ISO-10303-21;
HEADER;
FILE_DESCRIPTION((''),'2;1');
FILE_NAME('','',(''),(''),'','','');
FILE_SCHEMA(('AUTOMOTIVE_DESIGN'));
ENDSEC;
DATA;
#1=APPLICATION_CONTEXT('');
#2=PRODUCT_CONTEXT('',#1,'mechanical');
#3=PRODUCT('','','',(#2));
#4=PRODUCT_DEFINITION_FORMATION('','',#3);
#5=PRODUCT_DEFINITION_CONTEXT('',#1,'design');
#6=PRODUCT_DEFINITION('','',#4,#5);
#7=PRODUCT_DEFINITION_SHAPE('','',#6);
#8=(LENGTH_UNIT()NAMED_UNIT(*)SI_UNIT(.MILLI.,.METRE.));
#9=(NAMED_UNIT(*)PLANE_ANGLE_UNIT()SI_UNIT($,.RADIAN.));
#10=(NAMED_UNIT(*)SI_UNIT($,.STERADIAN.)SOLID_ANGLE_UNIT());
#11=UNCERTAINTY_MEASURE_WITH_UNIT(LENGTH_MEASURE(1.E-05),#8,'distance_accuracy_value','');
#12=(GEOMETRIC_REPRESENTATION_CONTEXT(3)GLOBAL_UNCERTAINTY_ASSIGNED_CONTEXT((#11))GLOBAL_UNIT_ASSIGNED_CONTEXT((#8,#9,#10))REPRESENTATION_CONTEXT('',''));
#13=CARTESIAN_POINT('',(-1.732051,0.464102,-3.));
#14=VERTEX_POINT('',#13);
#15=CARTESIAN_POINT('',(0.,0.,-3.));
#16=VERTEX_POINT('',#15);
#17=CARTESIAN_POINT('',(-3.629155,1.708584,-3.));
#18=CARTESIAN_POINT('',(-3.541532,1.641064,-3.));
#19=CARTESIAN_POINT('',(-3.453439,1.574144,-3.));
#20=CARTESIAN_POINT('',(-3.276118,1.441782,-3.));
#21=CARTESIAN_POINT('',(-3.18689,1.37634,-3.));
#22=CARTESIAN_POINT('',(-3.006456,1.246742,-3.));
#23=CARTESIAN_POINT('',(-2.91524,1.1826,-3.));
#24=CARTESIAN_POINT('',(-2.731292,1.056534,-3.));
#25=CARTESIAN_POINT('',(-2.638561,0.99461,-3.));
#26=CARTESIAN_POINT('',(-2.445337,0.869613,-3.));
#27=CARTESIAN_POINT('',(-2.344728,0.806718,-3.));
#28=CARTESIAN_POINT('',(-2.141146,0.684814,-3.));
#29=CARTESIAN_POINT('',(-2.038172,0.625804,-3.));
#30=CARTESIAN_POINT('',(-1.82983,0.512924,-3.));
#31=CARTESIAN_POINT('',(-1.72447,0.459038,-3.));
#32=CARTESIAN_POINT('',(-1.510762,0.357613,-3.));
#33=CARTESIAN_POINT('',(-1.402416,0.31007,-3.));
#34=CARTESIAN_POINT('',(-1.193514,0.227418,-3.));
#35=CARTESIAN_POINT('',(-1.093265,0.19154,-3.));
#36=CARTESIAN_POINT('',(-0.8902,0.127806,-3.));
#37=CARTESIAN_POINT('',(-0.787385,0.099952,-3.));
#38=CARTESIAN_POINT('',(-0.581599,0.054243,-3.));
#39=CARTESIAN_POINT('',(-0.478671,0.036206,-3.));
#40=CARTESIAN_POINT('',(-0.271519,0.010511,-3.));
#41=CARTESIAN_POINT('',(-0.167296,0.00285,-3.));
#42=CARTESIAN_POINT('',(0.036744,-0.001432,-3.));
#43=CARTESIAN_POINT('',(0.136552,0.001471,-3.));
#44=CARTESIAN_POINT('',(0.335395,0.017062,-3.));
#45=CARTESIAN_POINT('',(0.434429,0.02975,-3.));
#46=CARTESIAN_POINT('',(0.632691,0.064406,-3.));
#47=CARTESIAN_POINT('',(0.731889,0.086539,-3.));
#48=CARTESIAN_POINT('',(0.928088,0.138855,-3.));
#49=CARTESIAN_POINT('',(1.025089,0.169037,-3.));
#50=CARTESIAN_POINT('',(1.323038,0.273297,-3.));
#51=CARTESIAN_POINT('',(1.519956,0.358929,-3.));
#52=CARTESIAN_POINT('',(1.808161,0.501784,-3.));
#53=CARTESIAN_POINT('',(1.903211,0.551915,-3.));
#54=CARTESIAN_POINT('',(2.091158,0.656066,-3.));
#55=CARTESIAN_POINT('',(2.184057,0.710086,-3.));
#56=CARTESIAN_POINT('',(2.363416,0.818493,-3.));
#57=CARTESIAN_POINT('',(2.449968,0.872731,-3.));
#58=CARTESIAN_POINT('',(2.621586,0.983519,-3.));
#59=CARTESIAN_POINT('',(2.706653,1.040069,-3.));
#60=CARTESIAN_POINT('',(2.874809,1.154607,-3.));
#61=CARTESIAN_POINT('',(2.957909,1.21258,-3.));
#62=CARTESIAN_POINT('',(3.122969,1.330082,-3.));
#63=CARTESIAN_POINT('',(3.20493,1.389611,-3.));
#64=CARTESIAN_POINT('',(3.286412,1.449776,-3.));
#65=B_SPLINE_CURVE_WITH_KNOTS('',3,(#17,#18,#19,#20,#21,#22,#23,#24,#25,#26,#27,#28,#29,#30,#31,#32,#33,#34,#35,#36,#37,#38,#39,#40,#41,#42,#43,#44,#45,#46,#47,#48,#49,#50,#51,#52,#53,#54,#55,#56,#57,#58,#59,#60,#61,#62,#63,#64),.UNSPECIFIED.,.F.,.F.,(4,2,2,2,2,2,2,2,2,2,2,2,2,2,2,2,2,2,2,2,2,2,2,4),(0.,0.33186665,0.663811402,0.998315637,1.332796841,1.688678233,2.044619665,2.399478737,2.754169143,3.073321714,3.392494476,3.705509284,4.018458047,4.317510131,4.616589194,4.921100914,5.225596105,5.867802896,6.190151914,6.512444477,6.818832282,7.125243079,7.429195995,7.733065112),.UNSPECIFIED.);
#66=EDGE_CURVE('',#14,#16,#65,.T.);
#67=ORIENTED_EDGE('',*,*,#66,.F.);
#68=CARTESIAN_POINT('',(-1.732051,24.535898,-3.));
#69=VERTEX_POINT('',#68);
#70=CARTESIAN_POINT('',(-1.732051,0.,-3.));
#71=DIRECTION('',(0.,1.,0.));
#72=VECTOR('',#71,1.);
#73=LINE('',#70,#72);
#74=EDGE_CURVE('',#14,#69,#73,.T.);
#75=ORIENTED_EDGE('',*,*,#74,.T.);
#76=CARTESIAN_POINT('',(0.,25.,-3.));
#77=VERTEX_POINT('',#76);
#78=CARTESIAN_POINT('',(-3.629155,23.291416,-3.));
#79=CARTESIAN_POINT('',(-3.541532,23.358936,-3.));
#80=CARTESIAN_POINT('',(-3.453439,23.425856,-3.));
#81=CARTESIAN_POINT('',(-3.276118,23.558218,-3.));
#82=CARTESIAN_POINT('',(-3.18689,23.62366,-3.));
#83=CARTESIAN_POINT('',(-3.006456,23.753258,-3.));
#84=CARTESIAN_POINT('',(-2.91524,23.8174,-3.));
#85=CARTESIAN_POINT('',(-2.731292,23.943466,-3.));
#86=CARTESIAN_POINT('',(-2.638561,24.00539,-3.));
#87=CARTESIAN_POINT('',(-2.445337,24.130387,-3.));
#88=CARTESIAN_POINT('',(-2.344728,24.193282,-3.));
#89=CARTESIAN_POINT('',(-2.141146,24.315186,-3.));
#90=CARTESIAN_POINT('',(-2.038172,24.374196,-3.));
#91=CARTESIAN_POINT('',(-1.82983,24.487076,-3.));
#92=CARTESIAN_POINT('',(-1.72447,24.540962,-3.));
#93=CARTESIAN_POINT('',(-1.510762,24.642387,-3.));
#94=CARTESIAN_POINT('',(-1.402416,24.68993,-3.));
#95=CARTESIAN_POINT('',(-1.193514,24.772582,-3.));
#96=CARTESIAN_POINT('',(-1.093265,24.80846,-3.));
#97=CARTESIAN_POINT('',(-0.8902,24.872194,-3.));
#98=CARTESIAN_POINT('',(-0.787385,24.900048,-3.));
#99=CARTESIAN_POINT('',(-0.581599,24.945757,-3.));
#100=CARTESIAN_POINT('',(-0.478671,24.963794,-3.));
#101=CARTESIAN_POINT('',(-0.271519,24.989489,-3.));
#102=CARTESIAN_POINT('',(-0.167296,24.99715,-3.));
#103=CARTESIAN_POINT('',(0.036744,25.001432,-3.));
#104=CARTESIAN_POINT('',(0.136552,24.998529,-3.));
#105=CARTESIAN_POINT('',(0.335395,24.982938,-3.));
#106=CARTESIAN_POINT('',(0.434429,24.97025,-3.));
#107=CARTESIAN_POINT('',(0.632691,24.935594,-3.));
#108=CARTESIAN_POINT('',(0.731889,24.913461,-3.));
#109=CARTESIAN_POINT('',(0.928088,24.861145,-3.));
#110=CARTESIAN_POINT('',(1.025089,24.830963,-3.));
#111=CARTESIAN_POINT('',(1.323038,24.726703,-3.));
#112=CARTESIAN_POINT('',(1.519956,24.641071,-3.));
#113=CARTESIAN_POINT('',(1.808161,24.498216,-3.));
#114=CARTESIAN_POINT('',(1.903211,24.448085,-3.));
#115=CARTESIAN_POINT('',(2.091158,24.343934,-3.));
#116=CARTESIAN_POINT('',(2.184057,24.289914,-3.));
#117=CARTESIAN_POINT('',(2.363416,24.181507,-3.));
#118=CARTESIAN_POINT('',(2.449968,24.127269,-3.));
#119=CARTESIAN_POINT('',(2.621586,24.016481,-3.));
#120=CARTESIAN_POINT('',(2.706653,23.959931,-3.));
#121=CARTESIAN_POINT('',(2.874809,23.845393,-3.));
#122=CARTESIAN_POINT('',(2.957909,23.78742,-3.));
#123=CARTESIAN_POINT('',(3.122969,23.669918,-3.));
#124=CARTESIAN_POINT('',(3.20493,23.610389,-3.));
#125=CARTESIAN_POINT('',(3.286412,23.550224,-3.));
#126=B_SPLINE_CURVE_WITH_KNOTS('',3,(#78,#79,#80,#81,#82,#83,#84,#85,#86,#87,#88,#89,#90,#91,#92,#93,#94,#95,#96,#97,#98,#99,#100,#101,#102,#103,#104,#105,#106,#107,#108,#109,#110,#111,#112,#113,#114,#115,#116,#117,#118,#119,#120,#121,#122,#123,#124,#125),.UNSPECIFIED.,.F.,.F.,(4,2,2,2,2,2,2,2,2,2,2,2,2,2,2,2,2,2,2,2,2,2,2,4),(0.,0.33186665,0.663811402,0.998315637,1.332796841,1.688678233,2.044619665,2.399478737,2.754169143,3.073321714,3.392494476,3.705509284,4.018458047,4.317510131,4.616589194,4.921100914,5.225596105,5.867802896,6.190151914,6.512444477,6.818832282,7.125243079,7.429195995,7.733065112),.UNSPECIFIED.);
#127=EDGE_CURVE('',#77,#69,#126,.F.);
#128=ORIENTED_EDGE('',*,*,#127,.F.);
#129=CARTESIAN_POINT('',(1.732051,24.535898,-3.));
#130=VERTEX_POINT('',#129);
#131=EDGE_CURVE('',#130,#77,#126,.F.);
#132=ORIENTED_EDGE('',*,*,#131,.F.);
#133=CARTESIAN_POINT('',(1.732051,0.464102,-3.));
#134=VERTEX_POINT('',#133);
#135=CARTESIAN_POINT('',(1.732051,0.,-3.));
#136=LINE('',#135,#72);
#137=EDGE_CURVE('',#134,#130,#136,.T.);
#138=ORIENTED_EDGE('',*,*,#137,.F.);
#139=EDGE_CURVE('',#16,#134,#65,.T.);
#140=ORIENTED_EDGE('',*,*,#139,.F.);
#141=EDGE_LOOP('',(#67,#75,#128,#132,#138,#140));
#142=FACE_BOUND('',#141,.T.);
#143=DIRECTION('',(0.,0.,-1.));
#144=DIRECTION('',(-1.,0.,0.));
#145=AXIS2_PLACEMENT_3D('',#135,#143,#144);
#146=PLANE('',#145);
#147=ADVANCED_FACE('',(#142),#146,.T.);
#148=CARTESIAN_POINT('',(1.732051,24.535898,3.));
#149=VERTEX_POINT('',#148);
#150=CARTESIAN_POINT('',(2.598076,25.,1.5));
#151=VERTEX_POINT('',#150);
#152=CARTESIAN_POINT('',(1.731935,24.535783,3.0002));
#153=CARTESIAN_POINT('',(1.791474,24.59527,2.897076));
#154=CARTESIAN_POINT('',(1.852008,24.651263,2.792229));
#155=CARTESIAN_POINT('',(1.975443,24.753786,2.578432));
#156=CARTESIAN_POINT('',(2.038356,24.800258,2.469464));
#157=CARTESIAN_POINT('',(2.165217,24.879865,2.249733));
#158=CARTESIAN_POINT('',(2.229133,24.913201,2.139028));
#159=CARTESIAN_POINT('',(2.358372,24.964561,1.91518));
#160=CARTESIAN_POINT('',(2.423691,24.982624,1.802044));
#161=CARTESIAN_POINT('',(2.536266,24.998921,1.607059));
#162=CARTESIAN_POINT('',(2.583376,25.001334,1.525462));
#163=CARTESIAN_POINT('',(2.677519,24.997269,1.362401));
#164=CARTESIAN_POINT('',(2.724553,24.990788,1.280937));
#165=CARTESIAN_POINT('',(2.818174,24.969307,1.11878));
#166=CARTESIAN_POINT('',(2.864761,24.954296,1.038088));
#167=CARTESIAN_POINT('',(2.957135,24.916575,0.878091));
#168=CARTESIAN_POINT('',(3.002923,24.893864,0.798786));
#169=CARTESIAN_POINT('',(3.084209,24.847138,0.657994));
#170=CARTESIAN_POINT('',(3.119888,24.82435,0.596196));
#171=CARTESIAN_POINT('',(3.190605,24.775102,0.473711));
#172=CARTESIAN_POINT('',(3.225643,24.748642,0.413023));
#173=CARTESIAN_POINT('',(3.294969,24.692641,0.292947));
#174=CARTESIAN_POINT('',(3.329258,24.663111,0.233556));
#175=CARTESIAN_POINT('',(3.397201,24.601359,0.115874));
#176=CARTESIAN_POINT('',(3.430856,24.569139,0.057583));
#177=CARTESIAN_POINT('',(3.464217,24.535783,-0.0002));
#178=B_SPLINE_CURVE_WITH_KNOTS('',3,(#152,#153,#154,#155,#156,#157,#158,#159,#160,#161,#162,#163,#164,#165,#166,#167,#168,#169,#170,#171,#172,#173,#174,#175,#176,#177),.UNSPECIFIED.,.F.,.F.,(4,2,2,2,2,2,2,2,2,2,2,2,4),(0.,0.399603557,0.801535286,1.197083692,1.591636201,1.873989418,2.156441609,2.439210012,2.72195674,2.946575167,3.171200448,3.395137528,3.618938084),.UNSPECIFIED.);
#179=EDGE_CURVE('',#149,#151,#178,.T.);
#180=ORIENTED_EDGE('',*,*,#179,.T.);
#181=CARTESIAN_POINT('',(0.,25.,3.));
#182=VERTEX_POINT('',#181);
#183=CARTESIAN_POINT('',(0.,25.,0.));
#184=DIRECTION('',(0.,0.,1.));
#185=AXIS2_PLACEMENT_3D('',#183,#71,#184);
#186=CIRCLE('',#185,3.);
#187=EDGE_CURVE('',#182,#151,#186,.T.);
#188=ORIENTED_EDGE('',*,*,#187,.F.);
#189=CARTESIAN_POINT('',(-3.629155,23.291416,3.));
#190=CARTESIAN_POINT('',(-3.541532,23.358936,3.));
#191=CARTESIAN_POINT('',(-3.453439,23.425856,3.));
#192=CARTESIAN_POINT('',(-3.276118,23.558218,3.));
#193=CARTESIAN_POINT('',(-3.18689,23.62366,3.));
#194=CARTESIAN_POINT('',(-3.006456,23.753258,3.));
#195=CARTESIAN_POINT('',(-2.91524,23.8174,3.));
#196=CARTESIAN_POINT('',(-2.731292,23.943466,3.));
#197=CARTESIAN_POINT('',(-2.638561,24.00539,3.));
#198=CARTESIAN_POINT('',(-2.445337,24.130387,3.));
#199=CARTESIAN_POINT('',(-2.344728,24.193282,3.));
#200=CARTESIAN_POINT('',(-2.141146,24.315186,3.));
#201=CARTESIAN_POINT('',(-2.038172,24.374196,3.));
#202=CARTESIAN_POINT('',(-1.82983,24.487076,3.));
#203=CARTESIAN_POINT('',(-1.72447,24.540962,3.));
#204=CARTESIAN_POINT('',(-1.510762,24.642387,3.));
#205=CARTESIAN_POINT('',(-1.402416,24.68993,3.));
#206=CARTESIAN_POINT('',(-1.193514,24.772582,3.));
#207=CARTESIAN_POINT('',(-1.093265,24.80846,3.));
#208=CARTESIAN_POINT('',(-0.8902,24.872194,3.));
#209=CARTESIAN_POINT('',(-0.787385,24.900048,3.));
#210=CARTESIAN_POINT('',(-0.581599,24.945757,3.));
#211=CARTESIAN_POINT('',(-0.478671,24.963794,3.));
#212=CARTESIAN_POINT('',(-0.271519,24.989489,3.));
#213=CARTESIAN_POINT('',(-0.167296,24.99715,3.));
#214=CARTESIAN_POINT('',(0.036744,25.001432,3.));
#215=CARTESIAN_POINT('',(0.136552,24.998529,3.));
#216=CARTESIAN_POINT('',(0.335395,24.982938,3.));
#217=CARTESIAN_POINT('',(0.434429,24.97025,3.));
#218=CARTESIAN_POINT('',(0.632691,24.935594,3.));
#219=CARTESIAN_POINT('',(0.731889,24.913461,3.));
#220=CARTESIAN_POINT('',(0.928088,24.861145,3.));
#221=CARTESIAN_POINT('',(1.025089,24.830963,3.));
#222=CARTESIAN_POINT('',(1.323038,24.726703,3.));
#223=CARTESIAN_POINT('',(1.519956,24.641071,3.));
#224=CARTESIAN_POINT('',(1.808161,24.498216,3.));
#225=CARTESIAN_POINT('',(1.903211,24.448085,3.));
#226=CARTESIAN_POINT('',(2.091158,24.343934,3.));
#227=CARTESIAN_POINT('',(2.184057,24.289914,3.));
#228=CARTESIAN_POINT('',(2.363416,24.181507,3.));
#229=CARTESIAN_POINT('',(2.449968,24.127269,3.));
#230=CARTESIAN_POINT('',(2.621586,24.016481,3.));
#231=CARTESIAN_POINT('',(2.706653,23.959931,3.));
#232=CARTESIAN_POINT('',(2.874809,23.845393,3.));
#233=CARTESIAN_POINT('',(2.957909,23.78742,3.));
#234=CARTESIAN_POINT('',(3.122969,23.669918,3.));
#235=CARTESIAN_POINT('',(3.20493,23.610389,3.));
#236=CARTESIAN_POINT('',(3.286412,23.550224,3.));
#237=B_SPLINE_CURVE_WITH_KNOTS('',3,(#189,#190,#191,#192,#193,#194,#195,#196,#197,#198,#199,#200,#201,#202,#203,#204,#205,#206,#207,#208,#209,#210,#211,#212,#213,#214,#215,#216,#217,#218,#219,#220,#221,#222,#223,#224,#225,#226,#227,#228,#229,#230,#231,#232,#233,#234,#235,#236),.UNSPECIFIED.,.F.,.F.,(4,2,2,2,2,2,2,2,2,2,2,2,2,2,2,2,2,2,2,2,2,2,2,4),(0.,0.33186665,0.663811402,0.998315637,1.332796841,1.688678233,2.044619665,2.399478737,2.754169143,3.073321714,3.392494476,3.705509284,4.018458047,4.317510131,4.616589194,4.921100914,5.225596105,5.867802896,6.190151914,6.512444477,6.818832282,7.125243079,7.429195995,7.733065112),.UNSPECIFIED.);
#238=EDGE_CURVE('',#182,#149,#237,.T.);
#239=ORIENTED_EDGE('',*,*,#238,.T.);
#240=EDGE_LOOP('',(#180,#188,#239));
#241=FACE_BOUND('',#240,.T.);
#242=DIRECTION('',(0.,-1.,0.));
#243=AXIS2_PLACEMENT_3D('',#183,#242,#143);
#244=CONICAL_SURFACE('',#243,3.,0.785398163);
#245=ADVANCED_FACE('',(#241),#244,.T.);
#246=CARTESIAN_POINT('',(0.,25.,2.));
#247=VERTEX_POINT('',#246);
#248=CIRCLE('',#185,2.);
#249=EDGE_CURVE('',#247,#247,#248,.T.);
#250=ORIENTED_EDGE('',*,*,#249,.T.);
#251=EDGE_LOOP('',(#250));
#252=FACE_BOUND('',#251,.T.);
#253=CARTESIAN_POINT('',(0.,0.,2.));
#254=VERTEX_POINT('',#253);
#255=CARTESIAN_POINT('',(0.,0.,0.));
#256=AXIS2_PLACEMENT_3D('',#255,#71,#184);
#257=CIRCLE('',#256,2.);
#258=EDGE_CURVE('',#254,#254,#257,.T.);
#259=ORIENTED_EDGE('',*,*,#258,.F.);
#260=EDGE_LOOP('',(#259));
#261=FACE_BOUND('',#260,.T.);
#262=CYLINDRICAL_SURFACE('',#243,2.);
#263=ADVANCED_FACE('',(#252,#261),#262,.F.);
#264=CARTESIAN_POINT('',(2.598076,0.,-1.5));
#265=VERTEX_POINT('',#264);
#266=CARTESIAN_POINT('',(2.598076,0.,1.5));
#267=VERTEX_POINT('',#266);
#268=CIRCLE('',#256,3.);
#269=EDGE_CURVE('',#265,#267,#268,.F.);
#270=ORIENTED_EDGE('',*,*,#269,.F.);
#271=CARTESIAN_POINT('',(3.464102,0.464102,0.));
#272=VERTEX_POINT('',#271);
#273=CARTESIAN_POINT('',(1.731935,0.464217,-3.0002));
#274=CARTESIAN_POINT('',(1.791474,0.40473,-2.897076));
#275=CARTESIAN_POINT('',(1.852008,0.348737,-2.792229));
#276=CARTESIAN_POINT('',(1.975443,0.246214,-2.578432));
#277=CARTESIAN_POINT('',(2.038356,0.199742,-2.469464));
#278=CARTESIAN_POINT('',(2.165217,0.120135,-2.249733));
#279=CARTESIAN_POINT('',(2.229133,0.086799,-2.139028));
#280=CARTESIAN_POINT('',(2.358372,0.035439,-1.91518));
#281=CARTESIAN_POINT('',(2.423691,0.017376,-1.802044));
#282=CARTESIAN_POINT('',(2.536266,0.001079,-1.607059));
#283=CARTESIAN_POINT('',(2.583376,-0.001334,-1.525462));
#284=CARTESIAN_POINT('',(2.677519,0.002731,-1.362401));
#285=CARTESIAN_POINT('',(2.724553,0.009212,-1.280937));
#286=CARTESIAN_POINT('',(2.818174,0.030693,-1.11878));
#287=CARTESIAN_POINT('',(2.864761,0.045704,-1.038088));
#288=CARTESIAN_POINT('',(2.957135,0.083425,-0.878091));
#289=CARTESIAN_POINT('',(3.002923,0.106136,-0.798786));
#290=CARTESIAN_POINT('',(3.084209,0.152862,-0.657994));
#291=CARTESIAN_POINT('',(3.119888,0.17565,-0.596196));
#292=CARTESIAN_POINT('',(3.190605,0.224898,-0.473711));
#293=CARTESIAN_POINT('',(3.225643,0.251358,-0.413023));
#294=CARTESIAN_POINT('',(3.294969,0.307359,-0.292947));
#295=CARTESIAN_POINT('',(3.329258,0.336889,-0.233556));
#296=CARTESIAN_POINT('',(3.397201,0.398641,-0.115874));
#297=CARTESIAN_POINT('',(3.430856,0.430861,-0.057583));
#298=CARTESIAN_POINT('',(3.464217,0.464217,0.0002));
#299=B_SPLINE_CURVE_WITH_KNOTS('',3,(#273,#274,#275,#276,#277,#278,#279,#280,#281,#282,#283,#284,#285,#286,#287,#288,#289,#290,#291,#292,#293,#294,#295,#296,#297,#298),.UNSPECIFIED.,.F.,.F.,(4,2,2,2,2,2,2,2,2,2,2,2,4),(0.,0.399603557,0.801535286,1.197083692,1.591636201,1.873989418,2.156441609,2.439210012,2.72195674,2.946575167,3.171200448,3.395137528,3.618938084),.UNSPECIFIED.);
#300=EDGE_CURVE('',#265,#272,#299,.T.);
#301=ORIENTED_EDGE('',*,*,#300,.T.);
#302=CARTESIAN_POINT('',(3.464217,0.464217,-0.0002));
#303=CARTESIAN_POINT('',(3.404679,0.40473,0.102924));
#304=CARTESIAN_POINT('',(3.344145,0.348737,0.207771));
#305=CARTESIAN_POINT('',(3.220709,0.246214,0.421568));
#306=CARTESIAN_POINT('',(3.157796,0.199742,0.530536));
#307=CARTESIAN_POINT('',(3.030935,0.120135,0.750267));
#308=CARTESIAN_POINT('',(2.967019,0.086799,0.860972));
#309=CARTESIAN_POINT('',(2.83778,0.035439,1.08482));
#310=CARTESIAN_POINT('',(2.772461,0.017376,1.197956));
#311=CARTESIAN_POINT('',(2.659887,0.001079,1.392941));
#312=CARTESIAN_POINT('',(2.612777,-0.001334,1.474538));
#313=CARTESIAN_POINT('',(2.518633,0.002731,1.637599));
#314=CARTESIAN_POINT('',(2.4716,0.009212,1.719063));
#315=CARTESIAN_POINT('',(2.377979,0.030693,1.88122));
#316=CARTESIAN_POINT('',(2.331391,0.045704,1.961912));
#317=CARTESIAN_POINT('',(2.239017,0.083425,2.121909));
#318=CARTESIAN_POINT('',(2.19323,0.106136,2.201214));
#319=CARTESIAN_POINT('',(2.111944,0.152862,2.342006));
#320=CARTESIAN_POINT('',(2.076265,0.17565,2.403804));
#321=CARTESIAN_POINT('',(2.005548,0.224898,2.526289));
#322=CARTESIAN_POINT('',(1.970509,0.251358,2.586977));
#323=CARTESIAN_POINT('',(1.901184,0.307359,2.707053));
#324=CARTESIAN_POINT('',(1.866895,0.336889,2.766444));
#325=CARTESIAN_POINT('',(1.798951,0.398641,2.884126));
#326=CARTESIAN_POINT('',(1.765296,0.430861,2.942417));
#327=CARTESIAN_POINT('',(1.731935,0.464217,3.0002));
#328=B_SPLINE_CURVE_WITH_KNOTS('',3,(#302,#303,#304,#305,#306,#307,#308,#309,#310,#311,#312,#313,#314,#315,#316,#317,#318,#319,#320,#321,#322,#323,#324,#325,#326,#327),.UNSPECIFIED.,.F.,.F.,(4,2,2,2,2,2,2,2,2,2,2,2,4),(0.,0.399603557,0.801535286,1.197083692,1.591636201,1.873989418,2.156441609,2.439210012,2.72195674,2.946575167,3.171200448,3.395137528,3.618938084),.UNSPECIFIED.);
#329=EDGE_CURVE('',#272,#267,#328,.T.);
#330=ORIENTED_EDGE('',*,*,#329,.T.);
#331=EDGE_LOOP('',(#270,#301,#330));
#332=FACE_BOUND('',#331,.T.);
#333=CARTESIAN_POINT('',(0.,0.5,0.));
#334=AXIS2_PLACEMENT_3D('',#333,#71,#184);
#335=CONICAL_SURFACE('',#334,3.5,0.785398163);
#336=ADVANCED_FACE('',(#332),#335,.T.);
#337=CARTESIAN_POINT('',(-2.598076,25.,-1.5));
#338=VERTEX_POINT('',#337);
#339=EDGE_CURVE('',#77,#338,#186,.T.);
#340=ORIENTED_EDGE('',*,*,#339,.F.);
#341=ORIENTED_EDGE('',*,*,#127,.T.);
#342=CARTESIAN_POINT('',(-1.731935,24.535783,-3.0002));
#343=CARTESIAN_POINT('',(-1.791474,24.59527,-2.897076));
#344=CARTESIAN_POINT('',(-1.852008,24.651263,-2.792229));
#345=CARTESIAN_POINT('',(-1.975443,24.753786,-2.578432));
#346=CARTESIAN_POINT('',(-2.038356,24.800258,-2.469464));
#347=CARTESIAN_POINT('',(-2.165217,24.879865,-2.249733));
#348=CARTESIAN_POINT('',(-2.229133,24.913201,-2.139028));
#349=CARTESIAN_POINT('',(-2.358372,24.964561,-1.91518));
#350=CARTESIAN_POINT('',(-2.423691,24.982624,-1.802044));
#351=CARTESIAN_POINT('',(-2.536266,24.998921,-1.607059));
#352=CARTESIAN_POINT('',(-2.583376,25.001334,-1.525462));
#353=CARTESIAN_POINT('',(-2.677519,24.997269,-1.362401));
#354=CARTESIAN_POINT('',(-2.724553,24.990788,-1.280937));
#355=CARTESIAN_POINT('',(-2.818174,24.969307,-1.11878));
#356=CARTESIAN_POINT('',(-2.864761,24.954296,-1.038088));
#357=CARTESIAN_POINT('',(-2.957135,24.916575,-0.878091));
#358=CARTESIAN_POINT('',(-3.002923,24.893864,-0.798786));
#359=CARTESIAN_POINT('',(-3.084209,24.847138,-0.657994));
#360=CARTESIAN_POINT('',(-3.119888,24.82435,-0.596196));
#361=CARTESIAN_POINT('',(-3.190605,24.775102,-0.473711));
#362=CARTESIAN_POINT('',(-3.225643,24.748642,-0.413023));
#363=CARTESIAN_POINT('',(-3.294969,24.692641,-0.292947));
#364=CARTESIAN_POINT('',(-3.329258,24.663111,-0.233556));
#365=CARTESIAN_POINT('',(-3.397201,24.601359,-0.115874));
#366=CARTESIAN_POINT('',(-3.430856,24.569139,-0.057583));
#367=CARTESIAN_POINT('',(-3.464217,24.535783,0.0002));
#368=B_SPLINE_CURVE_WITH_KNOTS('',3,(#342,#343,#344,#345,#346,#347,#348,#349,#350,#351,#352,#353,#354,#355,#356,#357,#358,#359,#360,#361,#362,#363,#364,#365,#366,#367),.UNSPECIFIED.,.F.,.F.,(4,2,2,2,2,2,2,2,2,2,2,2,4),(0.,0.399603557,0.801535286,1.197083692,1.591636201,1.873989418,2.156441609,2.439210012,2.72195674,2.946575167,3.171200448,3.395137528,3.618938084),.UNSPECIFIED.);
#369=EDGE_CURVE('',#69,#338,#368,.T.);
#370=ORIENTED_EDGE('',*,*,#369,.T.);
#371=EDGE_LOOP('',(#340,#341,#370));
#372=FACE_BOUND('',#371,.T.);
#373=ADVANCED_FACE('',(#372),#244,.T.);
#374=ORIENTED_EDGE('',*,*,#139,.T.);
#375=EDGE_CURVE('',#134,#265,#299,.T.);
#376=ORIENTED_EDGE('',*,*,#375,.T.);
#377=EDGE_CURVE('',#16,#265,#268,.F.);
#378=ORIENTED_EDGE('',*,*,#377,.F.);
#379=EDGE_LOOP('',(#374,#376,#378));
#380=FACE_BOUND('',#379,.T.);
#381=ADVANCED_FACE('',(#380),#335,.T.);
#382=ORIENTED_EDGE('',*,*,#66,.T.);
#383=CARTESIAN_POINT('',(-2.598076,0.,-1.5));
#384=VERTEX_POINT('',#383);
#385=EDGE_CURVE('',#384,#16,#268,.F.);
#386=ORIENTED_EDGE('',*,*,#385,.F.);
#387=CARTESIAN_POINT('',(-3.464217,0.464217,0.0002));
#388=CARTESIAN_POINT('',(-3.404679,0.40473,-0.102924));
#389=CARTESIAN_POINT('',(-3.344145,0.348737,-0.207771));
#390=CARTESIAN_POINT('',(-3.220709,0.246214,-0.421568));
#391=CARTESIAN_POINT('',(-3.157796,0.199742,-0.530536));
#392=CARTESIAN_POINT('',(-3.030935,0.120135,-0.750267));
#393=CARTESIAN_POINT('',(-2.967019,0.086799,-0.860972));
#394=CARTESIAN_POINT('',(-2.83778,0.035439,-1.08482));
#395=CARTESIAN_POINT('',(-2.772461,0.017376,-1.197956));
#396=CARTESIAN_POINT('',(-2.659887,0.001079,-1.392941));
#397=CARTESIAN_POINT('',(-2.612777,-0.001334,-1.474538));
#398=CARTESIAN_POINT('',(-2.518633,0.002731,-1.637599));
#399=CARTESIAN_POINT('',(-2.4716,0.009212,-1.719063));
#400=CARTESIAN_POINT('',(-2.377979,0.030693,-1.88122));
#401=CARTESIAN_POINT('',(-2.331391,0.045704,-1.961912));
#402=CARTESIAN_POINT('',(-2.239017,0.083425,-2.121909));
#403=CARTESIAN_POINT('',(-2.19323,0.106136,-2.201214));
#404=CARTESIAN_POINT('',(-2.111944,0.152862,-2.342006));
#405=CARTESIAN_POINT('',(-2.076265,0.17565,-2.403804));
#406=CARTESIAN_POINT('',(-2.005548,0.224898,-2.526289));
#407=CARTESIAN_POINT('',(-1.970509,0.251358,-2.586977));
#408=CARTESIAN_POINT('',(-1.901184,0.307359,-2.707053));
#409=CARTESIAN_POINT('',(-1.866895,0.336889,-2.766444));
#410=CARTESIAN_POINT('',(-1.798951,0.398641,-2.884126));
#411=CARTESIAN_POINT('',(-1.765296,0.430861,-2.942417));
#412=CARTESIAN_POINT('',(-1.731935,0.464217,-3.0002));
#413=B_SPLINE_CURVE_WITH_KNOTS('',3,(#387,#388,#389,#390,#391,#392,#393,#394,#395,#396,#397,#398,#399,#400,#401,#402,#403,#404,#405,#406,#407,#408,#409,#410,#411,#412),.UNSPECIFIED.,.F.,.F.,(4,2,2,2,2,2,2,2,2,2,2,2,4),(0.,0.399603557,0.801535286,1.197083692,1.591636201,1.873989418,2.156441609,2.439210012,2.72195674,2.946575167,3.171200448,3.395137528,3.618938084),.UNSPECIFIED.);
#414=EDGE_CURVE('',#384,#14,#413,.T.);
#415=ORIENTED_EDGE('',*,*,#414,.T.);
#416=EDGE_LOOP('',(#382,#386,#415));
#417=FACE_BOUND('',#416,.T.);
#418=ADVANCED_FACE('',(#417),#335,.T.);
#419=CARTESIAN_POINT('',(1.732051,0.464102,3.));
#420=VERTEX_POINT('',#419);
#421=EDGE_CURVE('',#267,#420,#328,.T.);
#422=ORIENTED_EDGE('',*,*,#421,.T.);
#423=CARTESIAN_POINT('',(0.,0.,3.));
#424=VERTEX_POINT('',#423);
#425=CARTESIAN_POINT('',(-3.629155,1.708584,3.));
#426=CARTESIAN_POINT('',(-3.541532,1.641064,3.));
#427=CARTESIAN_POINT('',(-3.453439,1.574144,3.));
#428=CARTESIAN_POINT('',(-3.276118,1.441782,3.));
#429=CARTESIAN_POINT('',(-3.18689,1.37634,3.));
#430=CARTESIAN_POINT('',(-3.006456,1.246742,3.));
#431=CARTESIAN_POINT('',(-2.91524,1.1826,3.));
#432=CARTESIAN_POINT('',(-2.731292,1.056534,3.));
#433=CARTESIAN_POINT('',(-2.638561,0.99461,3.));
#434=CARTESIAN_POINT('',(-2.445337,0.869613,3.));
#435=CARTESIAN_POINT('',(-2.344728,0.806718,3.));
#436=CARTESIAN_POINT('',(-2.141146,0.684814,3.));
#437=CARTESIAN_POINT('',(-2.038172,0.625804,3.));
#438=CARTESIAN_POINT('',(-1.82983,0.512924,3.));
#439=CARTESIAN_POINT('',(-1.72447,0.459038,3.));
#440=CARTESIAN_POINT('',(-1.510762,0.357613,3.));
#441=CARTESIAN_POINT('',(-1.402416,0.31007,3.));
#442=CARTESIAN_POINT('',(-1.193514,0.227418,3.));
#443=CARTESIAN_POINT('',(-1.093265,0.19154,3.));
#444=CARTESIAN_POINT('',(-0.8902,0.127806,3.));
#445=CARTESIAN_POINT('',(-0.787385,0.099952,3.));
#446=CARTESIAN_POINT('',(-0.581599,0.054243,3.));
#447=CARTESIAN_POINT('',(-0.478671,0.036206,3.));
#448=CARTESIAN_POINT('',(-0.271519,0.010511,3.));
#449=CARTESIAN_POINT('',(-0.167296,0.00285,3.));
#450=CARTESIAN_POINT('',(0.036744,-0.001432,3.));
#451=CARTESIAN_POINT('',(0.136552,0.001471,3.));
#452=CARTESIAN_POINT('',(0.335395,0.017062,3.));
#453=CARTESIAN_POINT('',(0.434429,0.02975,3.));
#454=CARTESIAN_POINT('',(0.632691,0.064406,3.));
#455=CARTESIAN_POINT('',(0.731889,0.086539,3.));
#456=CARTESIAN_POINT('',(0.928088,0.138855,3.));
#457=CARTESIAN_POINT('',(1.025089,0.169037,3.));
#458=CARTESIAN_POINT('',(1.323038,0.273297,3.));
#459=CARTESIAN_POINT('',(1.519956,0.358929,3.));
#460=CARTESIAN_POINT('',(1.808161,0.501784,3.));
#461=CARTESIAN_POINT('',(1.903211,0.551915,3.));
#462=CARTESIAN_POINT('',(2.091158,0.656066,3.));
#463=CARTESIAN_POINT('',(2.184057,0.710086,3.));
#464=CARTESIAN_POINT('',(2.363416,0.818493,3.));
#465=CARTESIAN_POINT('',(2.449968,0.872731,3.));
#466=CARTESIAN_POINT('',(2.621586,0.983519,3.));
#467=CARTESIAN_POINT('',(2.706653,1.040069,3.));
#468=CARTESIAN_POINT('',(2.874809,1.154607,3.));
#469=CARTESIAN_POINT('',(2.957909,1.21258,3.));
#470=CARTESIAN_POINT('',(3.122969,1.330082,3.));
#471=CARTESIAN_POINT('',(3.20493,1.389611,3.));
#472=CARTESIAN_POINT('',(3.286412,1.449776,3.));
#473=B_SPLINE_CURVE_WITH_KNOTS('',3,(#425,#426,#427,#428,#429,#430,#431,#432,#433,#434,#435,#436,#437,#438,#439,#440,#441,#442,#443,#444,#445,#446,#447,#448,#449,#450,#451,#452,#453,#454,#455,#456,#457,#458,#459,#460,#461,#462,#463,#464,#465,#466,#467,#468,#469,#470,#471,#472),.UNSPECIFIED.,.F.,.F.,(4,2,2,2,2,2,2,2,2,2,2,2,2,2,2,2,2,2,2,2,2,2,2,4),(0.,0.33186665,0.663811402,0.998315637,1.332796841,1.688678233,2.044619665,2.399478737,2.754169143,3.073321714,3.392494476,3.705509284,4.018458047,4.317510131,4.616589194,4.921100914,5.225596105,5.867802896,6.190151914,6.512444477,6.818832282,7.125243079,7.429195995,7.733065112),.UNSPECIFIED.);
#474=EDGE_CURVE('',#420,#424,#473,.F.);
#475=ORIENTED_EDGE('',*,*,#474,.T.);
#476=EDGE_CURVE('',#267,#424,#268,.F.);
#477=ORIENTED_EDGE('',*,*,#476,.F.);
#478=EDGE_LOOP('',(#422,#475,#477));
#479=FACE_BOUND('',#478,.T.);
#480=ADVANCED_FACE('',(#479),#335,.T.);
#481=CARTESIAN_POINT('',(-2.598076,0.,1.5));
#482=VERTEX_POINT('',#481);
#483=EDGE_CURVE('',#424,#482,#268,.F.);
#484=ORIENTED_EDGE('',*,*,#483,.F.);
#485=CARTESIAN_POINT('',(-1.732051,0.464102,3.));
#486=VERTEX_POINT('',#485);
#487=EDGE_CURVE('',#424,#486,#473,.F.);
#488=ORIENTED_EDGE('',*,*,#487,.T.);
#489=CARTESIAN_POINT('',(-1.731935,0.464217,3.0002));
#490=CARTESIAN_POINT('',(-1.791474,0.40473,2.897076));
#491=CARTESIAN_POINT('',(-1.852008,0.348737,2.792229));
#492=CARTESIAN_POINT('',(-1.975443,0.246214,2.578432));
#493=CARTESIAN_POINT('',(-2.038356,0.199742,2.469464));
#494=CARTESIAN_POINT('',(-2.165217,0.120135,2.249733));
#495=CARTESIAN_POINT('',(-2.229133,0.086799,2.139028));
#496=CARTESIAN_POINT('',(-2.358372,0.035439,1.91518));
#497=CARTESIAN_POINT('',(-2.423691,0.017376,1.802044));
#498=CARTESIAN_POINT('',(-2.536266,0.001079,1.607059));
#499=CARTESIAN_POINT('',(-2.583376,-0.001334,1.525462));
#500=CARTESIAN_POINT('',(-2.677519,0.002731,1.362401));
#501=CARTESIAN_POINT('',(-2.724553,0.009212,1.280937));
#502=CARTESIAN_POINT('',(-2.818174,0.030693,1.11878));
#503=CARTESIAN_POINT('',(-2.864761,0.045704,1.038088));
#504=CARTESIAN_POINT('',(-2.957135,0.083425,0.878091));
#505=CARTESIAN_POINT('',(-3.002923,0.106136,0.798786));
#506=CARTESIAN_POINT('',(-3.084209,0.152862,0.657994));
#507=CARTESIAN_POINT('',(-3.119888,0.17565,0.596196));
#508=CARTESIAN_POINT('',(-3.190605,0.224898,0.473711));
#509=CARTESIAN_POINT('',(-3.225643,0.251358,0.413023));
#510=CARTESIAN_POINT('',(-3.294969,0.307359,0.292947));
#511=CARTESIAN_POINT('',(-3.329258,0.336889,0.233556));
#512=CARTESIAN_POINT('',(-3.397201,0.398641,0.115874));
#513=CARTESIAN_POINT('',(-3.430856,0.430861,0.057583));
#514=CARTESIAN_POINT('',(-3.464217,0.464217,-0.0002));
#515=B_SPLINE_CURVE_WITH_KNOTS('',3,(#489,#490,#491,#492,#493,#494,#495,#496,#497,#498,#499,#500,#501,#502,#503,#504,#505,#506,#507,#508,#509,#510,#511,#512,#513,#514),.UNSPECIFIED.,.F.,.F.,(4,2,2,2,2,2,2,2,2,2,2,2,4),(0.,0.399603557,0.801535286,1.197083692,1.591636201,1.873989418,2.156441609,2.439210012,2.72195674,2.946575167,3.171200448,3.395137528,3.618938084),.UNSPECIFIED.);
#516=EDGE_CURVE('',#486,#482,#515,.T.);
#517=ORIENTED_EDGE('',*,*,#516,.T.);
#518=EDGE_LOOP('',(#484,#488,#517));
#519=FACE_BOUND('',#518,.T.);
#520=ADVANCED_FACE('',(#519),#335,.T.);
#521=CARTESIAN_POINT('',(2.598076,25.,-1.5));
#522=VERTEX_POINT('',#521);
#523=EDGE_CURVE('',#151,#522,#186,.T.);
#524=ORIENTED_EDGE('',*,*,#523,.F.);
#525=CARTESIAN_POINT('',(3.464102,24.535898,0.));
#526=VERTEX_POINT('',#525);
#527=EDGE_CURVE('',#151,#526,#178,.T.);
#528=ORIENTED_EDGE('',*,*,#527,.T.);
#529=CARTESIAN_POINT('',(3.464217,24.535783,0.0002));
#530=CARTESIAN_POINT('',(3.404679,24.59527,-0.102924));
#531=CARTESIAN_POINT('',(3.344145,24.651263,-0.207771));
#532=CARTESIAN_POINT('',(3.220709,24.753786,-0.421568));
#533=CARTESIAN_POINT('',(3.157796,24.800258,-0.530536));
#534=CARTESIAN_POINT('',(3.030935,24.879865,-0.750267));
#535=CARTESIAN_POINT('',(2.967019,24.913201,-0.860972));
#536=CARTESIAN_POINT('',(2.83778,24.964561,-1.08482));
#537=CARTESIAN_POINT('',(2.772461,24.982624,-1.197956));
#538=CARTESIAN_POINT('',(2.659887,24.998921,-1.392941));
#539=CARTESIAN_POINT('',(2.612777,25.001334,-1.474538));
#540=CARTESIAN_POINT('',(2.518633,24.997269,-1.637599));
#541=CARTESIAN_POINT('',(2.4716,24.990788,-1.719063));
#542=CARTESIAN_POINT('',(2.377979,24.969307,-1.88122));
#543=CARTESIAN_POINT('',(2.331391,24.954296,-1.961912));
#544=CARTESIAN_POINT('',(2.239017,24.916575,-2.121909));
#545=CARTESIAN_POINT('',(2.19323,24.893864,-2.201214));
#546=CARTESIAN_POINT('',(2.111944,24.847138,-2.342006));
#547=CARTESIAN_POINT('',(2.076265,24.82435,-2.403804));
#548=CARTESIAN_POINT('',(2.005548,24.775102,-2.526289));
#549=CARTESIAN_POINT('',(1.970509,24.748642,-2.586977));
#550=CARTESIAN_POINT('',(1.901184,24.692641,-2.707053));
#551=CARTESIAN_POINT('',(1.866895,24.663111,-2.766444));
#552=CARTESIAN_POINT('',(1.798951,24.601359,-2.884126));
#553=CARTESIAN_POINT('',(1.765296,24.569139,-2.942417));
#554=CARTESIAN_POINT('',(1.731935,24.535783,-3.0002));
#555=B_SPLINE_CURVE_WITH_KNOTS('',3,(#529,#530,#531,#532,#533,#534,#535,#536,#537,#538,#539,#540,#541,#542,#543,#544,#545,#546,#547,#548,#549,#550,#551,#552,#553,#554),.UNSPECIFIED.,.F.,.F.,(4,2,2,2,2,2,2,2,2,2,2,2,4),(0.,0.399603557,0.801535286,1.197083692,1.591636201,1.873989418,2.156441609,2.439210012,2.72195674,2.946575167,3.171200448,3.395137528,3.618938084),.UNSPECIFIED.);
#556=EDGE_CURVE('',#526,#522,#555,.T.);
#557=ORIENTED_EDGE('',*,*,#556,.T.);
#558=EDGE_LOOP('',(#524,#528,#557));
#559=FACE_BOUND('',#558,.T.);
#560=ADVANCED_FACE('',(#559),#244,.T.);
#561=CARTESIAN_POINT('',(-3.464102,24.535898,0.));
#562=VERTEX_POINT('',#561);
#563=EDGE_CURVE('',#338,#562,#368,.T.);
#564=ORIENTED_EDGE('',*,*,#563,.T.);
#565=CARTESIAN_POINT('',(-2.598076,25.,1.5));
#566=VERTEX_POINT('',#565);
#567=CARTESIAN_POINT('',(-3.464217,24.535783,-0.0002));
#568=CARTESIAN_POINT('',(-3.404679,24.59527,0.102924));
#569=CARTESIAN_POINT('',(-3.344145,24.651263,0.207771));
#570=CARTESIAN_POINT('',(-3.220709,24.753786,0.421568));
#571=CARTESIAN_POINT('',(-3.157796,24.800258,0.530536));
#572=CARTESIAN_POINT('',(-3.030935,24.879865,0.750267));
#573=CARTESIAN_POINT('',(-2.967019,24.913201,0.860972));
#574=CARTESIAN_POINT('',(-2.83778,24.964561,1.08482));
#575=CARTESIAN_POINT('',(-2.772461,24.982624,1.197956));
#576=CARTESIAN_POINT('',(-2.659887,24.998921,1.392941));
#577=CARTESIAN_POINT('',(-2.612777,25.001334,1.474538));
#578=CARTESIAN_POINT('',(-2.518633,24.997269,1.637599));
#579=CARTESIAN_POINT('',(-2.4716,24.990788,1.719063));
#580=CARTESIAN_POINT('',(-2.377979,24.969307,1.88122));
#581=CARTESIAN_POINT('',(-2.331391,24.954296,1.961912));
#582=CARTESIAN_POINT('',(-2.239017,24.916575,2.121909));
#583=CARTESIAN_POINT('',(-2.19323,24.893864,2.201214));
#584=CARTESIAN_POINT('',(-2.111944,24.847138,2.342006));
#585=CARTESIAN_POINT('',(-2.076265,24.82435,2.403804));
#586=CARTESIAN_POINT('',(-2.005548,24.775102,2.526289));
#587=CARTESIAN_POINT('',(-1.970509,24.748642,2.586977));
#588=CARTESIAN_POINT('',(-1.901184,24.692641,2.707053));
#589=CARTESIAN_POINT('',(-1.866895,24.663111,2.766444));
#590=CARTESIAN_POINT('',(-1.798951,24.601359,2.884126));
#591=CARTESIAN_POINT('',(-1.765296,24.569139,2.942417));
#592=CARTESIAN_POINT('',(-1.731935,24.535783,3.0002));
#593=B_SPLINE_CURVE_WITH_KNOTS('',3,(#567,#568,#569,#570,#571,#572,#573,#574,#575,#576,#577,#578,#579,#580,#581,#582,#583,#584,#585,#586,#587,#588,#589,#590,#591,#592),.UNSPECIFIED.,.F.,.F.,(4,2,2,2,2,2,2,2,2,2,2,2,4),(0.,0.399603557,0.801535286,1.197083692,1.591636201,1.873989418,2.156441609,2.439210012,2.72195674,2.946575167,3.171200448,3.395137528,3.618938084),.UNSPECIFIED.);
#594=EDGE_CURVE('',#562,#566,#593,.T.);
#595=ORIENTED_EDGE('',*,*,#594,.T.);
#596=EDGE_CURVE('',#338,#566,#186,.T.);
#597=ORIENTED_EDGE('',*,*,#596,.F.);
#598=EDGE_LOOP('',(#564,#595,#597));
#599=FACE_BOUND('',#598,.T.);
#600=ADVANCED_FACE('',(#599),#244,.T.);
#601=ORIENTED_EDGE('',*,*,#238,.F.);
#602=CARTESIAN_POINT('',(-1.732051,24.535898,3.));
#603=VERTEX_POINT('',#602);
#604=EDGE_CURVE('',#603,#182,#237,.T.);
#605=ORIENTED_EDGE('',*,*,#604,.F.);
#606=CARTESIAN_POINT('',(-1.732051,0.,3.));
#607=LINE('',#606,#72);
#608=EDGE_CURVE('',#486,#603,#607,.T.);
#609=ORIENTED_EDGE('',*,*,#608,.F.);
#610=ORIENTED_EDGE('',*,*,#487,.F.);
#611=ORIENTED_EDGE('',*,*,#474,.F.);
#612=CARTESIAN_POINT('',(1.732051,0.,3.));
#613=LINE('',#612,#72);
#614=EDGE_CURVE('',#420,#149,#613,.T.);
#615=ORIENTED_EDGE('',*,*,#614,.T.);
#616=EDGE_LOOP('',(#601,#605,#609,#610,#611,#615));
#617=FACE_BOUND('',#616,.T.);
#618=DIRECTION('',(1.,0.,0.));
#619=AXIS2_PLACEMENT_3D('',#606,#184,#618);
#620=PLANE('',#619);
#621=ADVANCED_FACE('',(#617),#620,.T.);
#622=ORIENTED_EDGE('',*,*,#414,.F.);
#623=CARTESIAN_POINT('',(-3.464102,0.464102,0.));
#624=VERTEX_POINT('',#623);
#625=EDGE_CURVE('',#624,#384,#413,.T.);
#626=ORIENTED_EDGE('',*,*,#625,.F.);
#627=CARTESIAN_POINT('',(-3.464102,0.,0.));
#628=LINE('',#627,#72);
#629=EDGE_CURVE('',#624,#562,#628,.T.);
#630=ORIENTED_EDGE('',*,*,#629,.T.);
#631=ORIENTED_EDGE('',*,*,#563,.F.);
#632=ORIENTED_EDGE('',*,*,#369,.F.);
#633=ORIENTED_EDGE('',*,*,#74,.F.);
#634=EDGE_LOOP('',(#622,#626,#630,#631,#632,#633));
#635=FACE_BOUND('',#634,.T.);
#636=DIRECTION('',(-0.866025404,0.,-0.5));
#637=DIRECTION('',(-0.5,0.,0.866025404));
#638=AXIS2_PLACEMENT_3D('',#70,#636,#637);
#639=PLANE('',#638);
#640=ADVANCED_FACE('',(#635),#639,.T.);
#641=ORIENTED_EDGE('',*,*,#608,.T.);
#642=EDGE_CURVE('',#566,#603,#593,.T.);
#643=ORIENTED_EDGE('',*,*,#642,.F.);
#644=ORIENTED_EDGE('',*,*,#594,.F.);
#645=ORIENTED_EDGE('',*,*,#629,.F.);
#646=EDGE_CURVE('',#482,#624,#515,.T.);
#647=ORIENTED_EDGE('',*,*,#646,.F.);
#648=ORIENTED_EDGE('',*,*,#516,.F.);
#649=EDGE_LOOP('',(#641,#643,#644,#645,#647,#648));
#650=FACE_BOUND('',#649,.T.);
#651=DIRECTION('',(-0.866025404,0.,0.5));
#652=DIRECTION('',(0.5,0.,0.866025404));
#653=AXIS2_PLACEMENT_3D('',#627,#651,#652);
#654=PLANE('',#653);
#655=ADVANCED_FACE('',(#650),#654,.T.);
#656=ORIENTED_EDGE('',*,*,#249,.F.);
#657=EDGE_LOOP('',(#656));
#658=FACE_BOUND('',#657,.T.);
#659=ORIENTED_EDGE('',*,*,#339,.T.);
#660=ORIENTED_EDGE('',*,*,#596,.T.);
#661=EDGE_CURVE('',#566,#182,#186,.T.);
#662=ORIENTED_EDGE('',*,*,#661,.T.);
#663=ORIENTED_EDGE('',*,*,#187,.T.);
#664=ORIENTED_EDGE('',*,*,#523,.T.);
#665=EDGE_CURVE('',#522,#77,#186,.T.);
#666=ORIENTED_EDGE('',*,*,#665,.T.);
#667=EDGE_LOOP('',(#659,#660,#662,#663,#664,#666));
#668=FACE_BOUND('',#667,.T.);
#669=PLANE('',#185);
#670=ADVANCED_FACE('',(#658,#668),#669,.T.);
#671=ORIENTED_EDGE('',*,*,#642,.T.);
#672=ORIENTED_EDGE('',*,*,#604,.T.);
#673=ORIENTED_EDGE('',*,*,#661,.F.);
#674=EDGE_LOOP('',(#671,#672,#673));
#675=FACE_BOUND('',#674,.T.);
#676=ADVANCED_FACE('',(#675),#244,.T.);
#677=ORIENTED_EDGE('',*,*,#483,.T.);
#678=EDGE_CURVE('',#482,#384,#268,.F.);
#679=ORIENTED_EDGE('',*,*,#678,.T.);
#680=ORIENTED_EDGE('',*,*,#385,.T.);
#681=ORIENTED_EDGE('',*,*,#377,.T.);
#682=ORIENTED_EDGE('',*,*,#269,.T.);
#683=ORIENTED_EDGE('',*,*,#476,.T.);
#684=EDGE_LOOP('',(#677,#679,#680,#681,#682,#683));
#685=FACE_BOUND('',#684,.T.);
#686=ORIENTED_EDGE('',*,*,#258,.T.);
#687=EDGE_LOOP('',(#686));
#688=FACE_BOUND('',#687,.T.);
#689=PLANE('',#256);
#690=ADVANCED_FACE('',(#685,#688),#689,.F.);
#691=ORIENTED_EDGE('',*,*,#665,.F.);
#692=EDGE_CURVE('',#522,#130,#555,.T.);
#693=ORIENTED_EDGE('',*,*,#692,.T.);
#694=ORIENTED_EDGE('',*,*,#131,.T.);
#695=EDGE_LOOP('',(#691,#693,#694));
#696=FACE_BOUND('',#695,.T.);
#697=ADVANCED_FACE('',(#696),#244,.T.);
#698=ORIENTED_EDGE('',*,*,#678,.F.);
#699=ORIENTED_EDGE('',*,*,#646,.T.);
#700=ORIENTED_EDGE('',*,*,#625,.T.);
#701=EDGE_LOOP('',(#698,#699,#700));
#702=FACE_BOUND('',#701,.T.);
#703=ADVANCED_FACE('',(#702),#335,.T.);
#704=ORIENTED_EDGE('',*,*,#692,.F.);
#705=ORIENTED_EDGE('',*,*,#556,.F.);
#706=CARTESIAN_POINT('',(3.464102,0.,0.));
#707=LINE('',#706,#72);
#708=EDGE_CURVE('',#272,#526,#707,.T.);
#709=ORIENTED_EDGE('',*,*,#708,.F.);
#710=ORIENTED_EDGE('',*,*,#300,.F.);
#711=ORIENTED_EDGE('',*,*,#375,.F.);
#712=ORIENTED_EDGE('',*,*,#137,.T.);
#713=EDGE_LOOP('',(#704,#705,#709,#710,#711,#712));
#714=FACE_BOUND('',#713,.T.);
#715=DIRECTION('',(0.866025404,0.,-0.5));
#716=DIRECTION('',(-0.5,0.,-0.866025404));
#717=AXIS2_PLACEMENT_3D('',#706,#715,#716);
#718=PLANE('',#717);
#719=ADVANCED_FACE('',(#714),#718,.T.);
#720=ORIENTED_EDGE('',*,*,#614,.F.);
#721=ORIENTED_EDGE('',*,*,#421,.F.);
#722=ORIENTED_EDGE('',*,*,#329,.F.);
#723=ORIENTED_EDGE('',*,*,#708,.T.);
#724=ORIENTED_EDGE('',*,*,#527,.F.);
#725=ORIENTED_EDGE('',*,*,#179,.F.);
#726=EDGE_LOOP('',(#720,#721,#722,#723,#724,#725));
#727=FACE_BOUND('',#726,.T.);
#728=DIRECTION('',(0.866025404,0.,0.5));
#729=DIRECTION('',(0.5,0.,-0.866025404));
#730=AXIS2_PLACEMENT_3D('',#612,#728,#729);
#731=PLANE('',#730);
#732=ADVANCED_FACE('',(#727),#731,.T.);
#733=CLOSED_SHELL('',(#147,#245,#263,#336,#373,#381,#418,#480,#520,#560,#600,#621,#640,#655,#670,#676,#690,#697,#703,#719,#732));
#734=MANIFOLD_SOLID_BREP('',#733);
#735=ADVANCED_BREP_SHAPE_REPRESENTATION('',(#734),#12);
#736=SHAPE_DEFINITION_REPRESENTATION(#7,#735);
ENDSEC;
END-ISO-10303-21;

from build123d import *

# Parameters (mm, degrees)
SKETCH_1_R          = 3.5
SKETCH_1_R_2        = 2
EXTRUDE_1_DEPTH     = 25
CHAMFER_1_SIZE      = 0.5
SKETCH_2_OUTSIDE_W  = 14.378
SKETCH_2_OUTSIDE_H  = 14.378
CUT_EXTRUDE_1_DEPTH = 26


with BuildPart() as part:
    # 草图1 → 凸台-拉伸1 (new body)
    with BuildSketch(Plane(origin=(0, 0, 0), x_dir=(1, 0, 0), z_dir=(0, 1, 0))):
        Circle(SKETCH_1_R)
        Circle(SKETCH_1_R_2, mode=Mode.SUBTRACT)
    extrude(amount=EXTRUDE_1_DEPTH)

    # 倒角1
    chamfer_1_edges = [part.edges().sort_by_distance(p)[0] for p in [
        (-3.5, 0, 0),
        (-3.5, 25, 0),
    ]]
    chamfer(chamfer_1_edges, length=CHAMFER_1_SIZE)

    # 草图2 outside → 切除-拉伸1 (cut, through all)
    with BuildSketch(Plane(origin=(0, 25, 0), x_dir=(1, 0, 0), z_dir=(0, 1, 0))):
        Rectangle(SKETCH_2_OUTSIDE_W, SKETCH_2_OUTSIDE_H)
        Polygon((1.732050808, 3), (-1.732050808, 3), (-3.464101615, 0), (-1.732050808, -3), (1.732050808, -3), (3.464101615, 0), align=None, mode=Mode.SUBTRACT)
    extrude(amount=-CUT_EXTRUDE_1_DEPTH, mode=Mode.SUBTRACT)


solid = part.part
